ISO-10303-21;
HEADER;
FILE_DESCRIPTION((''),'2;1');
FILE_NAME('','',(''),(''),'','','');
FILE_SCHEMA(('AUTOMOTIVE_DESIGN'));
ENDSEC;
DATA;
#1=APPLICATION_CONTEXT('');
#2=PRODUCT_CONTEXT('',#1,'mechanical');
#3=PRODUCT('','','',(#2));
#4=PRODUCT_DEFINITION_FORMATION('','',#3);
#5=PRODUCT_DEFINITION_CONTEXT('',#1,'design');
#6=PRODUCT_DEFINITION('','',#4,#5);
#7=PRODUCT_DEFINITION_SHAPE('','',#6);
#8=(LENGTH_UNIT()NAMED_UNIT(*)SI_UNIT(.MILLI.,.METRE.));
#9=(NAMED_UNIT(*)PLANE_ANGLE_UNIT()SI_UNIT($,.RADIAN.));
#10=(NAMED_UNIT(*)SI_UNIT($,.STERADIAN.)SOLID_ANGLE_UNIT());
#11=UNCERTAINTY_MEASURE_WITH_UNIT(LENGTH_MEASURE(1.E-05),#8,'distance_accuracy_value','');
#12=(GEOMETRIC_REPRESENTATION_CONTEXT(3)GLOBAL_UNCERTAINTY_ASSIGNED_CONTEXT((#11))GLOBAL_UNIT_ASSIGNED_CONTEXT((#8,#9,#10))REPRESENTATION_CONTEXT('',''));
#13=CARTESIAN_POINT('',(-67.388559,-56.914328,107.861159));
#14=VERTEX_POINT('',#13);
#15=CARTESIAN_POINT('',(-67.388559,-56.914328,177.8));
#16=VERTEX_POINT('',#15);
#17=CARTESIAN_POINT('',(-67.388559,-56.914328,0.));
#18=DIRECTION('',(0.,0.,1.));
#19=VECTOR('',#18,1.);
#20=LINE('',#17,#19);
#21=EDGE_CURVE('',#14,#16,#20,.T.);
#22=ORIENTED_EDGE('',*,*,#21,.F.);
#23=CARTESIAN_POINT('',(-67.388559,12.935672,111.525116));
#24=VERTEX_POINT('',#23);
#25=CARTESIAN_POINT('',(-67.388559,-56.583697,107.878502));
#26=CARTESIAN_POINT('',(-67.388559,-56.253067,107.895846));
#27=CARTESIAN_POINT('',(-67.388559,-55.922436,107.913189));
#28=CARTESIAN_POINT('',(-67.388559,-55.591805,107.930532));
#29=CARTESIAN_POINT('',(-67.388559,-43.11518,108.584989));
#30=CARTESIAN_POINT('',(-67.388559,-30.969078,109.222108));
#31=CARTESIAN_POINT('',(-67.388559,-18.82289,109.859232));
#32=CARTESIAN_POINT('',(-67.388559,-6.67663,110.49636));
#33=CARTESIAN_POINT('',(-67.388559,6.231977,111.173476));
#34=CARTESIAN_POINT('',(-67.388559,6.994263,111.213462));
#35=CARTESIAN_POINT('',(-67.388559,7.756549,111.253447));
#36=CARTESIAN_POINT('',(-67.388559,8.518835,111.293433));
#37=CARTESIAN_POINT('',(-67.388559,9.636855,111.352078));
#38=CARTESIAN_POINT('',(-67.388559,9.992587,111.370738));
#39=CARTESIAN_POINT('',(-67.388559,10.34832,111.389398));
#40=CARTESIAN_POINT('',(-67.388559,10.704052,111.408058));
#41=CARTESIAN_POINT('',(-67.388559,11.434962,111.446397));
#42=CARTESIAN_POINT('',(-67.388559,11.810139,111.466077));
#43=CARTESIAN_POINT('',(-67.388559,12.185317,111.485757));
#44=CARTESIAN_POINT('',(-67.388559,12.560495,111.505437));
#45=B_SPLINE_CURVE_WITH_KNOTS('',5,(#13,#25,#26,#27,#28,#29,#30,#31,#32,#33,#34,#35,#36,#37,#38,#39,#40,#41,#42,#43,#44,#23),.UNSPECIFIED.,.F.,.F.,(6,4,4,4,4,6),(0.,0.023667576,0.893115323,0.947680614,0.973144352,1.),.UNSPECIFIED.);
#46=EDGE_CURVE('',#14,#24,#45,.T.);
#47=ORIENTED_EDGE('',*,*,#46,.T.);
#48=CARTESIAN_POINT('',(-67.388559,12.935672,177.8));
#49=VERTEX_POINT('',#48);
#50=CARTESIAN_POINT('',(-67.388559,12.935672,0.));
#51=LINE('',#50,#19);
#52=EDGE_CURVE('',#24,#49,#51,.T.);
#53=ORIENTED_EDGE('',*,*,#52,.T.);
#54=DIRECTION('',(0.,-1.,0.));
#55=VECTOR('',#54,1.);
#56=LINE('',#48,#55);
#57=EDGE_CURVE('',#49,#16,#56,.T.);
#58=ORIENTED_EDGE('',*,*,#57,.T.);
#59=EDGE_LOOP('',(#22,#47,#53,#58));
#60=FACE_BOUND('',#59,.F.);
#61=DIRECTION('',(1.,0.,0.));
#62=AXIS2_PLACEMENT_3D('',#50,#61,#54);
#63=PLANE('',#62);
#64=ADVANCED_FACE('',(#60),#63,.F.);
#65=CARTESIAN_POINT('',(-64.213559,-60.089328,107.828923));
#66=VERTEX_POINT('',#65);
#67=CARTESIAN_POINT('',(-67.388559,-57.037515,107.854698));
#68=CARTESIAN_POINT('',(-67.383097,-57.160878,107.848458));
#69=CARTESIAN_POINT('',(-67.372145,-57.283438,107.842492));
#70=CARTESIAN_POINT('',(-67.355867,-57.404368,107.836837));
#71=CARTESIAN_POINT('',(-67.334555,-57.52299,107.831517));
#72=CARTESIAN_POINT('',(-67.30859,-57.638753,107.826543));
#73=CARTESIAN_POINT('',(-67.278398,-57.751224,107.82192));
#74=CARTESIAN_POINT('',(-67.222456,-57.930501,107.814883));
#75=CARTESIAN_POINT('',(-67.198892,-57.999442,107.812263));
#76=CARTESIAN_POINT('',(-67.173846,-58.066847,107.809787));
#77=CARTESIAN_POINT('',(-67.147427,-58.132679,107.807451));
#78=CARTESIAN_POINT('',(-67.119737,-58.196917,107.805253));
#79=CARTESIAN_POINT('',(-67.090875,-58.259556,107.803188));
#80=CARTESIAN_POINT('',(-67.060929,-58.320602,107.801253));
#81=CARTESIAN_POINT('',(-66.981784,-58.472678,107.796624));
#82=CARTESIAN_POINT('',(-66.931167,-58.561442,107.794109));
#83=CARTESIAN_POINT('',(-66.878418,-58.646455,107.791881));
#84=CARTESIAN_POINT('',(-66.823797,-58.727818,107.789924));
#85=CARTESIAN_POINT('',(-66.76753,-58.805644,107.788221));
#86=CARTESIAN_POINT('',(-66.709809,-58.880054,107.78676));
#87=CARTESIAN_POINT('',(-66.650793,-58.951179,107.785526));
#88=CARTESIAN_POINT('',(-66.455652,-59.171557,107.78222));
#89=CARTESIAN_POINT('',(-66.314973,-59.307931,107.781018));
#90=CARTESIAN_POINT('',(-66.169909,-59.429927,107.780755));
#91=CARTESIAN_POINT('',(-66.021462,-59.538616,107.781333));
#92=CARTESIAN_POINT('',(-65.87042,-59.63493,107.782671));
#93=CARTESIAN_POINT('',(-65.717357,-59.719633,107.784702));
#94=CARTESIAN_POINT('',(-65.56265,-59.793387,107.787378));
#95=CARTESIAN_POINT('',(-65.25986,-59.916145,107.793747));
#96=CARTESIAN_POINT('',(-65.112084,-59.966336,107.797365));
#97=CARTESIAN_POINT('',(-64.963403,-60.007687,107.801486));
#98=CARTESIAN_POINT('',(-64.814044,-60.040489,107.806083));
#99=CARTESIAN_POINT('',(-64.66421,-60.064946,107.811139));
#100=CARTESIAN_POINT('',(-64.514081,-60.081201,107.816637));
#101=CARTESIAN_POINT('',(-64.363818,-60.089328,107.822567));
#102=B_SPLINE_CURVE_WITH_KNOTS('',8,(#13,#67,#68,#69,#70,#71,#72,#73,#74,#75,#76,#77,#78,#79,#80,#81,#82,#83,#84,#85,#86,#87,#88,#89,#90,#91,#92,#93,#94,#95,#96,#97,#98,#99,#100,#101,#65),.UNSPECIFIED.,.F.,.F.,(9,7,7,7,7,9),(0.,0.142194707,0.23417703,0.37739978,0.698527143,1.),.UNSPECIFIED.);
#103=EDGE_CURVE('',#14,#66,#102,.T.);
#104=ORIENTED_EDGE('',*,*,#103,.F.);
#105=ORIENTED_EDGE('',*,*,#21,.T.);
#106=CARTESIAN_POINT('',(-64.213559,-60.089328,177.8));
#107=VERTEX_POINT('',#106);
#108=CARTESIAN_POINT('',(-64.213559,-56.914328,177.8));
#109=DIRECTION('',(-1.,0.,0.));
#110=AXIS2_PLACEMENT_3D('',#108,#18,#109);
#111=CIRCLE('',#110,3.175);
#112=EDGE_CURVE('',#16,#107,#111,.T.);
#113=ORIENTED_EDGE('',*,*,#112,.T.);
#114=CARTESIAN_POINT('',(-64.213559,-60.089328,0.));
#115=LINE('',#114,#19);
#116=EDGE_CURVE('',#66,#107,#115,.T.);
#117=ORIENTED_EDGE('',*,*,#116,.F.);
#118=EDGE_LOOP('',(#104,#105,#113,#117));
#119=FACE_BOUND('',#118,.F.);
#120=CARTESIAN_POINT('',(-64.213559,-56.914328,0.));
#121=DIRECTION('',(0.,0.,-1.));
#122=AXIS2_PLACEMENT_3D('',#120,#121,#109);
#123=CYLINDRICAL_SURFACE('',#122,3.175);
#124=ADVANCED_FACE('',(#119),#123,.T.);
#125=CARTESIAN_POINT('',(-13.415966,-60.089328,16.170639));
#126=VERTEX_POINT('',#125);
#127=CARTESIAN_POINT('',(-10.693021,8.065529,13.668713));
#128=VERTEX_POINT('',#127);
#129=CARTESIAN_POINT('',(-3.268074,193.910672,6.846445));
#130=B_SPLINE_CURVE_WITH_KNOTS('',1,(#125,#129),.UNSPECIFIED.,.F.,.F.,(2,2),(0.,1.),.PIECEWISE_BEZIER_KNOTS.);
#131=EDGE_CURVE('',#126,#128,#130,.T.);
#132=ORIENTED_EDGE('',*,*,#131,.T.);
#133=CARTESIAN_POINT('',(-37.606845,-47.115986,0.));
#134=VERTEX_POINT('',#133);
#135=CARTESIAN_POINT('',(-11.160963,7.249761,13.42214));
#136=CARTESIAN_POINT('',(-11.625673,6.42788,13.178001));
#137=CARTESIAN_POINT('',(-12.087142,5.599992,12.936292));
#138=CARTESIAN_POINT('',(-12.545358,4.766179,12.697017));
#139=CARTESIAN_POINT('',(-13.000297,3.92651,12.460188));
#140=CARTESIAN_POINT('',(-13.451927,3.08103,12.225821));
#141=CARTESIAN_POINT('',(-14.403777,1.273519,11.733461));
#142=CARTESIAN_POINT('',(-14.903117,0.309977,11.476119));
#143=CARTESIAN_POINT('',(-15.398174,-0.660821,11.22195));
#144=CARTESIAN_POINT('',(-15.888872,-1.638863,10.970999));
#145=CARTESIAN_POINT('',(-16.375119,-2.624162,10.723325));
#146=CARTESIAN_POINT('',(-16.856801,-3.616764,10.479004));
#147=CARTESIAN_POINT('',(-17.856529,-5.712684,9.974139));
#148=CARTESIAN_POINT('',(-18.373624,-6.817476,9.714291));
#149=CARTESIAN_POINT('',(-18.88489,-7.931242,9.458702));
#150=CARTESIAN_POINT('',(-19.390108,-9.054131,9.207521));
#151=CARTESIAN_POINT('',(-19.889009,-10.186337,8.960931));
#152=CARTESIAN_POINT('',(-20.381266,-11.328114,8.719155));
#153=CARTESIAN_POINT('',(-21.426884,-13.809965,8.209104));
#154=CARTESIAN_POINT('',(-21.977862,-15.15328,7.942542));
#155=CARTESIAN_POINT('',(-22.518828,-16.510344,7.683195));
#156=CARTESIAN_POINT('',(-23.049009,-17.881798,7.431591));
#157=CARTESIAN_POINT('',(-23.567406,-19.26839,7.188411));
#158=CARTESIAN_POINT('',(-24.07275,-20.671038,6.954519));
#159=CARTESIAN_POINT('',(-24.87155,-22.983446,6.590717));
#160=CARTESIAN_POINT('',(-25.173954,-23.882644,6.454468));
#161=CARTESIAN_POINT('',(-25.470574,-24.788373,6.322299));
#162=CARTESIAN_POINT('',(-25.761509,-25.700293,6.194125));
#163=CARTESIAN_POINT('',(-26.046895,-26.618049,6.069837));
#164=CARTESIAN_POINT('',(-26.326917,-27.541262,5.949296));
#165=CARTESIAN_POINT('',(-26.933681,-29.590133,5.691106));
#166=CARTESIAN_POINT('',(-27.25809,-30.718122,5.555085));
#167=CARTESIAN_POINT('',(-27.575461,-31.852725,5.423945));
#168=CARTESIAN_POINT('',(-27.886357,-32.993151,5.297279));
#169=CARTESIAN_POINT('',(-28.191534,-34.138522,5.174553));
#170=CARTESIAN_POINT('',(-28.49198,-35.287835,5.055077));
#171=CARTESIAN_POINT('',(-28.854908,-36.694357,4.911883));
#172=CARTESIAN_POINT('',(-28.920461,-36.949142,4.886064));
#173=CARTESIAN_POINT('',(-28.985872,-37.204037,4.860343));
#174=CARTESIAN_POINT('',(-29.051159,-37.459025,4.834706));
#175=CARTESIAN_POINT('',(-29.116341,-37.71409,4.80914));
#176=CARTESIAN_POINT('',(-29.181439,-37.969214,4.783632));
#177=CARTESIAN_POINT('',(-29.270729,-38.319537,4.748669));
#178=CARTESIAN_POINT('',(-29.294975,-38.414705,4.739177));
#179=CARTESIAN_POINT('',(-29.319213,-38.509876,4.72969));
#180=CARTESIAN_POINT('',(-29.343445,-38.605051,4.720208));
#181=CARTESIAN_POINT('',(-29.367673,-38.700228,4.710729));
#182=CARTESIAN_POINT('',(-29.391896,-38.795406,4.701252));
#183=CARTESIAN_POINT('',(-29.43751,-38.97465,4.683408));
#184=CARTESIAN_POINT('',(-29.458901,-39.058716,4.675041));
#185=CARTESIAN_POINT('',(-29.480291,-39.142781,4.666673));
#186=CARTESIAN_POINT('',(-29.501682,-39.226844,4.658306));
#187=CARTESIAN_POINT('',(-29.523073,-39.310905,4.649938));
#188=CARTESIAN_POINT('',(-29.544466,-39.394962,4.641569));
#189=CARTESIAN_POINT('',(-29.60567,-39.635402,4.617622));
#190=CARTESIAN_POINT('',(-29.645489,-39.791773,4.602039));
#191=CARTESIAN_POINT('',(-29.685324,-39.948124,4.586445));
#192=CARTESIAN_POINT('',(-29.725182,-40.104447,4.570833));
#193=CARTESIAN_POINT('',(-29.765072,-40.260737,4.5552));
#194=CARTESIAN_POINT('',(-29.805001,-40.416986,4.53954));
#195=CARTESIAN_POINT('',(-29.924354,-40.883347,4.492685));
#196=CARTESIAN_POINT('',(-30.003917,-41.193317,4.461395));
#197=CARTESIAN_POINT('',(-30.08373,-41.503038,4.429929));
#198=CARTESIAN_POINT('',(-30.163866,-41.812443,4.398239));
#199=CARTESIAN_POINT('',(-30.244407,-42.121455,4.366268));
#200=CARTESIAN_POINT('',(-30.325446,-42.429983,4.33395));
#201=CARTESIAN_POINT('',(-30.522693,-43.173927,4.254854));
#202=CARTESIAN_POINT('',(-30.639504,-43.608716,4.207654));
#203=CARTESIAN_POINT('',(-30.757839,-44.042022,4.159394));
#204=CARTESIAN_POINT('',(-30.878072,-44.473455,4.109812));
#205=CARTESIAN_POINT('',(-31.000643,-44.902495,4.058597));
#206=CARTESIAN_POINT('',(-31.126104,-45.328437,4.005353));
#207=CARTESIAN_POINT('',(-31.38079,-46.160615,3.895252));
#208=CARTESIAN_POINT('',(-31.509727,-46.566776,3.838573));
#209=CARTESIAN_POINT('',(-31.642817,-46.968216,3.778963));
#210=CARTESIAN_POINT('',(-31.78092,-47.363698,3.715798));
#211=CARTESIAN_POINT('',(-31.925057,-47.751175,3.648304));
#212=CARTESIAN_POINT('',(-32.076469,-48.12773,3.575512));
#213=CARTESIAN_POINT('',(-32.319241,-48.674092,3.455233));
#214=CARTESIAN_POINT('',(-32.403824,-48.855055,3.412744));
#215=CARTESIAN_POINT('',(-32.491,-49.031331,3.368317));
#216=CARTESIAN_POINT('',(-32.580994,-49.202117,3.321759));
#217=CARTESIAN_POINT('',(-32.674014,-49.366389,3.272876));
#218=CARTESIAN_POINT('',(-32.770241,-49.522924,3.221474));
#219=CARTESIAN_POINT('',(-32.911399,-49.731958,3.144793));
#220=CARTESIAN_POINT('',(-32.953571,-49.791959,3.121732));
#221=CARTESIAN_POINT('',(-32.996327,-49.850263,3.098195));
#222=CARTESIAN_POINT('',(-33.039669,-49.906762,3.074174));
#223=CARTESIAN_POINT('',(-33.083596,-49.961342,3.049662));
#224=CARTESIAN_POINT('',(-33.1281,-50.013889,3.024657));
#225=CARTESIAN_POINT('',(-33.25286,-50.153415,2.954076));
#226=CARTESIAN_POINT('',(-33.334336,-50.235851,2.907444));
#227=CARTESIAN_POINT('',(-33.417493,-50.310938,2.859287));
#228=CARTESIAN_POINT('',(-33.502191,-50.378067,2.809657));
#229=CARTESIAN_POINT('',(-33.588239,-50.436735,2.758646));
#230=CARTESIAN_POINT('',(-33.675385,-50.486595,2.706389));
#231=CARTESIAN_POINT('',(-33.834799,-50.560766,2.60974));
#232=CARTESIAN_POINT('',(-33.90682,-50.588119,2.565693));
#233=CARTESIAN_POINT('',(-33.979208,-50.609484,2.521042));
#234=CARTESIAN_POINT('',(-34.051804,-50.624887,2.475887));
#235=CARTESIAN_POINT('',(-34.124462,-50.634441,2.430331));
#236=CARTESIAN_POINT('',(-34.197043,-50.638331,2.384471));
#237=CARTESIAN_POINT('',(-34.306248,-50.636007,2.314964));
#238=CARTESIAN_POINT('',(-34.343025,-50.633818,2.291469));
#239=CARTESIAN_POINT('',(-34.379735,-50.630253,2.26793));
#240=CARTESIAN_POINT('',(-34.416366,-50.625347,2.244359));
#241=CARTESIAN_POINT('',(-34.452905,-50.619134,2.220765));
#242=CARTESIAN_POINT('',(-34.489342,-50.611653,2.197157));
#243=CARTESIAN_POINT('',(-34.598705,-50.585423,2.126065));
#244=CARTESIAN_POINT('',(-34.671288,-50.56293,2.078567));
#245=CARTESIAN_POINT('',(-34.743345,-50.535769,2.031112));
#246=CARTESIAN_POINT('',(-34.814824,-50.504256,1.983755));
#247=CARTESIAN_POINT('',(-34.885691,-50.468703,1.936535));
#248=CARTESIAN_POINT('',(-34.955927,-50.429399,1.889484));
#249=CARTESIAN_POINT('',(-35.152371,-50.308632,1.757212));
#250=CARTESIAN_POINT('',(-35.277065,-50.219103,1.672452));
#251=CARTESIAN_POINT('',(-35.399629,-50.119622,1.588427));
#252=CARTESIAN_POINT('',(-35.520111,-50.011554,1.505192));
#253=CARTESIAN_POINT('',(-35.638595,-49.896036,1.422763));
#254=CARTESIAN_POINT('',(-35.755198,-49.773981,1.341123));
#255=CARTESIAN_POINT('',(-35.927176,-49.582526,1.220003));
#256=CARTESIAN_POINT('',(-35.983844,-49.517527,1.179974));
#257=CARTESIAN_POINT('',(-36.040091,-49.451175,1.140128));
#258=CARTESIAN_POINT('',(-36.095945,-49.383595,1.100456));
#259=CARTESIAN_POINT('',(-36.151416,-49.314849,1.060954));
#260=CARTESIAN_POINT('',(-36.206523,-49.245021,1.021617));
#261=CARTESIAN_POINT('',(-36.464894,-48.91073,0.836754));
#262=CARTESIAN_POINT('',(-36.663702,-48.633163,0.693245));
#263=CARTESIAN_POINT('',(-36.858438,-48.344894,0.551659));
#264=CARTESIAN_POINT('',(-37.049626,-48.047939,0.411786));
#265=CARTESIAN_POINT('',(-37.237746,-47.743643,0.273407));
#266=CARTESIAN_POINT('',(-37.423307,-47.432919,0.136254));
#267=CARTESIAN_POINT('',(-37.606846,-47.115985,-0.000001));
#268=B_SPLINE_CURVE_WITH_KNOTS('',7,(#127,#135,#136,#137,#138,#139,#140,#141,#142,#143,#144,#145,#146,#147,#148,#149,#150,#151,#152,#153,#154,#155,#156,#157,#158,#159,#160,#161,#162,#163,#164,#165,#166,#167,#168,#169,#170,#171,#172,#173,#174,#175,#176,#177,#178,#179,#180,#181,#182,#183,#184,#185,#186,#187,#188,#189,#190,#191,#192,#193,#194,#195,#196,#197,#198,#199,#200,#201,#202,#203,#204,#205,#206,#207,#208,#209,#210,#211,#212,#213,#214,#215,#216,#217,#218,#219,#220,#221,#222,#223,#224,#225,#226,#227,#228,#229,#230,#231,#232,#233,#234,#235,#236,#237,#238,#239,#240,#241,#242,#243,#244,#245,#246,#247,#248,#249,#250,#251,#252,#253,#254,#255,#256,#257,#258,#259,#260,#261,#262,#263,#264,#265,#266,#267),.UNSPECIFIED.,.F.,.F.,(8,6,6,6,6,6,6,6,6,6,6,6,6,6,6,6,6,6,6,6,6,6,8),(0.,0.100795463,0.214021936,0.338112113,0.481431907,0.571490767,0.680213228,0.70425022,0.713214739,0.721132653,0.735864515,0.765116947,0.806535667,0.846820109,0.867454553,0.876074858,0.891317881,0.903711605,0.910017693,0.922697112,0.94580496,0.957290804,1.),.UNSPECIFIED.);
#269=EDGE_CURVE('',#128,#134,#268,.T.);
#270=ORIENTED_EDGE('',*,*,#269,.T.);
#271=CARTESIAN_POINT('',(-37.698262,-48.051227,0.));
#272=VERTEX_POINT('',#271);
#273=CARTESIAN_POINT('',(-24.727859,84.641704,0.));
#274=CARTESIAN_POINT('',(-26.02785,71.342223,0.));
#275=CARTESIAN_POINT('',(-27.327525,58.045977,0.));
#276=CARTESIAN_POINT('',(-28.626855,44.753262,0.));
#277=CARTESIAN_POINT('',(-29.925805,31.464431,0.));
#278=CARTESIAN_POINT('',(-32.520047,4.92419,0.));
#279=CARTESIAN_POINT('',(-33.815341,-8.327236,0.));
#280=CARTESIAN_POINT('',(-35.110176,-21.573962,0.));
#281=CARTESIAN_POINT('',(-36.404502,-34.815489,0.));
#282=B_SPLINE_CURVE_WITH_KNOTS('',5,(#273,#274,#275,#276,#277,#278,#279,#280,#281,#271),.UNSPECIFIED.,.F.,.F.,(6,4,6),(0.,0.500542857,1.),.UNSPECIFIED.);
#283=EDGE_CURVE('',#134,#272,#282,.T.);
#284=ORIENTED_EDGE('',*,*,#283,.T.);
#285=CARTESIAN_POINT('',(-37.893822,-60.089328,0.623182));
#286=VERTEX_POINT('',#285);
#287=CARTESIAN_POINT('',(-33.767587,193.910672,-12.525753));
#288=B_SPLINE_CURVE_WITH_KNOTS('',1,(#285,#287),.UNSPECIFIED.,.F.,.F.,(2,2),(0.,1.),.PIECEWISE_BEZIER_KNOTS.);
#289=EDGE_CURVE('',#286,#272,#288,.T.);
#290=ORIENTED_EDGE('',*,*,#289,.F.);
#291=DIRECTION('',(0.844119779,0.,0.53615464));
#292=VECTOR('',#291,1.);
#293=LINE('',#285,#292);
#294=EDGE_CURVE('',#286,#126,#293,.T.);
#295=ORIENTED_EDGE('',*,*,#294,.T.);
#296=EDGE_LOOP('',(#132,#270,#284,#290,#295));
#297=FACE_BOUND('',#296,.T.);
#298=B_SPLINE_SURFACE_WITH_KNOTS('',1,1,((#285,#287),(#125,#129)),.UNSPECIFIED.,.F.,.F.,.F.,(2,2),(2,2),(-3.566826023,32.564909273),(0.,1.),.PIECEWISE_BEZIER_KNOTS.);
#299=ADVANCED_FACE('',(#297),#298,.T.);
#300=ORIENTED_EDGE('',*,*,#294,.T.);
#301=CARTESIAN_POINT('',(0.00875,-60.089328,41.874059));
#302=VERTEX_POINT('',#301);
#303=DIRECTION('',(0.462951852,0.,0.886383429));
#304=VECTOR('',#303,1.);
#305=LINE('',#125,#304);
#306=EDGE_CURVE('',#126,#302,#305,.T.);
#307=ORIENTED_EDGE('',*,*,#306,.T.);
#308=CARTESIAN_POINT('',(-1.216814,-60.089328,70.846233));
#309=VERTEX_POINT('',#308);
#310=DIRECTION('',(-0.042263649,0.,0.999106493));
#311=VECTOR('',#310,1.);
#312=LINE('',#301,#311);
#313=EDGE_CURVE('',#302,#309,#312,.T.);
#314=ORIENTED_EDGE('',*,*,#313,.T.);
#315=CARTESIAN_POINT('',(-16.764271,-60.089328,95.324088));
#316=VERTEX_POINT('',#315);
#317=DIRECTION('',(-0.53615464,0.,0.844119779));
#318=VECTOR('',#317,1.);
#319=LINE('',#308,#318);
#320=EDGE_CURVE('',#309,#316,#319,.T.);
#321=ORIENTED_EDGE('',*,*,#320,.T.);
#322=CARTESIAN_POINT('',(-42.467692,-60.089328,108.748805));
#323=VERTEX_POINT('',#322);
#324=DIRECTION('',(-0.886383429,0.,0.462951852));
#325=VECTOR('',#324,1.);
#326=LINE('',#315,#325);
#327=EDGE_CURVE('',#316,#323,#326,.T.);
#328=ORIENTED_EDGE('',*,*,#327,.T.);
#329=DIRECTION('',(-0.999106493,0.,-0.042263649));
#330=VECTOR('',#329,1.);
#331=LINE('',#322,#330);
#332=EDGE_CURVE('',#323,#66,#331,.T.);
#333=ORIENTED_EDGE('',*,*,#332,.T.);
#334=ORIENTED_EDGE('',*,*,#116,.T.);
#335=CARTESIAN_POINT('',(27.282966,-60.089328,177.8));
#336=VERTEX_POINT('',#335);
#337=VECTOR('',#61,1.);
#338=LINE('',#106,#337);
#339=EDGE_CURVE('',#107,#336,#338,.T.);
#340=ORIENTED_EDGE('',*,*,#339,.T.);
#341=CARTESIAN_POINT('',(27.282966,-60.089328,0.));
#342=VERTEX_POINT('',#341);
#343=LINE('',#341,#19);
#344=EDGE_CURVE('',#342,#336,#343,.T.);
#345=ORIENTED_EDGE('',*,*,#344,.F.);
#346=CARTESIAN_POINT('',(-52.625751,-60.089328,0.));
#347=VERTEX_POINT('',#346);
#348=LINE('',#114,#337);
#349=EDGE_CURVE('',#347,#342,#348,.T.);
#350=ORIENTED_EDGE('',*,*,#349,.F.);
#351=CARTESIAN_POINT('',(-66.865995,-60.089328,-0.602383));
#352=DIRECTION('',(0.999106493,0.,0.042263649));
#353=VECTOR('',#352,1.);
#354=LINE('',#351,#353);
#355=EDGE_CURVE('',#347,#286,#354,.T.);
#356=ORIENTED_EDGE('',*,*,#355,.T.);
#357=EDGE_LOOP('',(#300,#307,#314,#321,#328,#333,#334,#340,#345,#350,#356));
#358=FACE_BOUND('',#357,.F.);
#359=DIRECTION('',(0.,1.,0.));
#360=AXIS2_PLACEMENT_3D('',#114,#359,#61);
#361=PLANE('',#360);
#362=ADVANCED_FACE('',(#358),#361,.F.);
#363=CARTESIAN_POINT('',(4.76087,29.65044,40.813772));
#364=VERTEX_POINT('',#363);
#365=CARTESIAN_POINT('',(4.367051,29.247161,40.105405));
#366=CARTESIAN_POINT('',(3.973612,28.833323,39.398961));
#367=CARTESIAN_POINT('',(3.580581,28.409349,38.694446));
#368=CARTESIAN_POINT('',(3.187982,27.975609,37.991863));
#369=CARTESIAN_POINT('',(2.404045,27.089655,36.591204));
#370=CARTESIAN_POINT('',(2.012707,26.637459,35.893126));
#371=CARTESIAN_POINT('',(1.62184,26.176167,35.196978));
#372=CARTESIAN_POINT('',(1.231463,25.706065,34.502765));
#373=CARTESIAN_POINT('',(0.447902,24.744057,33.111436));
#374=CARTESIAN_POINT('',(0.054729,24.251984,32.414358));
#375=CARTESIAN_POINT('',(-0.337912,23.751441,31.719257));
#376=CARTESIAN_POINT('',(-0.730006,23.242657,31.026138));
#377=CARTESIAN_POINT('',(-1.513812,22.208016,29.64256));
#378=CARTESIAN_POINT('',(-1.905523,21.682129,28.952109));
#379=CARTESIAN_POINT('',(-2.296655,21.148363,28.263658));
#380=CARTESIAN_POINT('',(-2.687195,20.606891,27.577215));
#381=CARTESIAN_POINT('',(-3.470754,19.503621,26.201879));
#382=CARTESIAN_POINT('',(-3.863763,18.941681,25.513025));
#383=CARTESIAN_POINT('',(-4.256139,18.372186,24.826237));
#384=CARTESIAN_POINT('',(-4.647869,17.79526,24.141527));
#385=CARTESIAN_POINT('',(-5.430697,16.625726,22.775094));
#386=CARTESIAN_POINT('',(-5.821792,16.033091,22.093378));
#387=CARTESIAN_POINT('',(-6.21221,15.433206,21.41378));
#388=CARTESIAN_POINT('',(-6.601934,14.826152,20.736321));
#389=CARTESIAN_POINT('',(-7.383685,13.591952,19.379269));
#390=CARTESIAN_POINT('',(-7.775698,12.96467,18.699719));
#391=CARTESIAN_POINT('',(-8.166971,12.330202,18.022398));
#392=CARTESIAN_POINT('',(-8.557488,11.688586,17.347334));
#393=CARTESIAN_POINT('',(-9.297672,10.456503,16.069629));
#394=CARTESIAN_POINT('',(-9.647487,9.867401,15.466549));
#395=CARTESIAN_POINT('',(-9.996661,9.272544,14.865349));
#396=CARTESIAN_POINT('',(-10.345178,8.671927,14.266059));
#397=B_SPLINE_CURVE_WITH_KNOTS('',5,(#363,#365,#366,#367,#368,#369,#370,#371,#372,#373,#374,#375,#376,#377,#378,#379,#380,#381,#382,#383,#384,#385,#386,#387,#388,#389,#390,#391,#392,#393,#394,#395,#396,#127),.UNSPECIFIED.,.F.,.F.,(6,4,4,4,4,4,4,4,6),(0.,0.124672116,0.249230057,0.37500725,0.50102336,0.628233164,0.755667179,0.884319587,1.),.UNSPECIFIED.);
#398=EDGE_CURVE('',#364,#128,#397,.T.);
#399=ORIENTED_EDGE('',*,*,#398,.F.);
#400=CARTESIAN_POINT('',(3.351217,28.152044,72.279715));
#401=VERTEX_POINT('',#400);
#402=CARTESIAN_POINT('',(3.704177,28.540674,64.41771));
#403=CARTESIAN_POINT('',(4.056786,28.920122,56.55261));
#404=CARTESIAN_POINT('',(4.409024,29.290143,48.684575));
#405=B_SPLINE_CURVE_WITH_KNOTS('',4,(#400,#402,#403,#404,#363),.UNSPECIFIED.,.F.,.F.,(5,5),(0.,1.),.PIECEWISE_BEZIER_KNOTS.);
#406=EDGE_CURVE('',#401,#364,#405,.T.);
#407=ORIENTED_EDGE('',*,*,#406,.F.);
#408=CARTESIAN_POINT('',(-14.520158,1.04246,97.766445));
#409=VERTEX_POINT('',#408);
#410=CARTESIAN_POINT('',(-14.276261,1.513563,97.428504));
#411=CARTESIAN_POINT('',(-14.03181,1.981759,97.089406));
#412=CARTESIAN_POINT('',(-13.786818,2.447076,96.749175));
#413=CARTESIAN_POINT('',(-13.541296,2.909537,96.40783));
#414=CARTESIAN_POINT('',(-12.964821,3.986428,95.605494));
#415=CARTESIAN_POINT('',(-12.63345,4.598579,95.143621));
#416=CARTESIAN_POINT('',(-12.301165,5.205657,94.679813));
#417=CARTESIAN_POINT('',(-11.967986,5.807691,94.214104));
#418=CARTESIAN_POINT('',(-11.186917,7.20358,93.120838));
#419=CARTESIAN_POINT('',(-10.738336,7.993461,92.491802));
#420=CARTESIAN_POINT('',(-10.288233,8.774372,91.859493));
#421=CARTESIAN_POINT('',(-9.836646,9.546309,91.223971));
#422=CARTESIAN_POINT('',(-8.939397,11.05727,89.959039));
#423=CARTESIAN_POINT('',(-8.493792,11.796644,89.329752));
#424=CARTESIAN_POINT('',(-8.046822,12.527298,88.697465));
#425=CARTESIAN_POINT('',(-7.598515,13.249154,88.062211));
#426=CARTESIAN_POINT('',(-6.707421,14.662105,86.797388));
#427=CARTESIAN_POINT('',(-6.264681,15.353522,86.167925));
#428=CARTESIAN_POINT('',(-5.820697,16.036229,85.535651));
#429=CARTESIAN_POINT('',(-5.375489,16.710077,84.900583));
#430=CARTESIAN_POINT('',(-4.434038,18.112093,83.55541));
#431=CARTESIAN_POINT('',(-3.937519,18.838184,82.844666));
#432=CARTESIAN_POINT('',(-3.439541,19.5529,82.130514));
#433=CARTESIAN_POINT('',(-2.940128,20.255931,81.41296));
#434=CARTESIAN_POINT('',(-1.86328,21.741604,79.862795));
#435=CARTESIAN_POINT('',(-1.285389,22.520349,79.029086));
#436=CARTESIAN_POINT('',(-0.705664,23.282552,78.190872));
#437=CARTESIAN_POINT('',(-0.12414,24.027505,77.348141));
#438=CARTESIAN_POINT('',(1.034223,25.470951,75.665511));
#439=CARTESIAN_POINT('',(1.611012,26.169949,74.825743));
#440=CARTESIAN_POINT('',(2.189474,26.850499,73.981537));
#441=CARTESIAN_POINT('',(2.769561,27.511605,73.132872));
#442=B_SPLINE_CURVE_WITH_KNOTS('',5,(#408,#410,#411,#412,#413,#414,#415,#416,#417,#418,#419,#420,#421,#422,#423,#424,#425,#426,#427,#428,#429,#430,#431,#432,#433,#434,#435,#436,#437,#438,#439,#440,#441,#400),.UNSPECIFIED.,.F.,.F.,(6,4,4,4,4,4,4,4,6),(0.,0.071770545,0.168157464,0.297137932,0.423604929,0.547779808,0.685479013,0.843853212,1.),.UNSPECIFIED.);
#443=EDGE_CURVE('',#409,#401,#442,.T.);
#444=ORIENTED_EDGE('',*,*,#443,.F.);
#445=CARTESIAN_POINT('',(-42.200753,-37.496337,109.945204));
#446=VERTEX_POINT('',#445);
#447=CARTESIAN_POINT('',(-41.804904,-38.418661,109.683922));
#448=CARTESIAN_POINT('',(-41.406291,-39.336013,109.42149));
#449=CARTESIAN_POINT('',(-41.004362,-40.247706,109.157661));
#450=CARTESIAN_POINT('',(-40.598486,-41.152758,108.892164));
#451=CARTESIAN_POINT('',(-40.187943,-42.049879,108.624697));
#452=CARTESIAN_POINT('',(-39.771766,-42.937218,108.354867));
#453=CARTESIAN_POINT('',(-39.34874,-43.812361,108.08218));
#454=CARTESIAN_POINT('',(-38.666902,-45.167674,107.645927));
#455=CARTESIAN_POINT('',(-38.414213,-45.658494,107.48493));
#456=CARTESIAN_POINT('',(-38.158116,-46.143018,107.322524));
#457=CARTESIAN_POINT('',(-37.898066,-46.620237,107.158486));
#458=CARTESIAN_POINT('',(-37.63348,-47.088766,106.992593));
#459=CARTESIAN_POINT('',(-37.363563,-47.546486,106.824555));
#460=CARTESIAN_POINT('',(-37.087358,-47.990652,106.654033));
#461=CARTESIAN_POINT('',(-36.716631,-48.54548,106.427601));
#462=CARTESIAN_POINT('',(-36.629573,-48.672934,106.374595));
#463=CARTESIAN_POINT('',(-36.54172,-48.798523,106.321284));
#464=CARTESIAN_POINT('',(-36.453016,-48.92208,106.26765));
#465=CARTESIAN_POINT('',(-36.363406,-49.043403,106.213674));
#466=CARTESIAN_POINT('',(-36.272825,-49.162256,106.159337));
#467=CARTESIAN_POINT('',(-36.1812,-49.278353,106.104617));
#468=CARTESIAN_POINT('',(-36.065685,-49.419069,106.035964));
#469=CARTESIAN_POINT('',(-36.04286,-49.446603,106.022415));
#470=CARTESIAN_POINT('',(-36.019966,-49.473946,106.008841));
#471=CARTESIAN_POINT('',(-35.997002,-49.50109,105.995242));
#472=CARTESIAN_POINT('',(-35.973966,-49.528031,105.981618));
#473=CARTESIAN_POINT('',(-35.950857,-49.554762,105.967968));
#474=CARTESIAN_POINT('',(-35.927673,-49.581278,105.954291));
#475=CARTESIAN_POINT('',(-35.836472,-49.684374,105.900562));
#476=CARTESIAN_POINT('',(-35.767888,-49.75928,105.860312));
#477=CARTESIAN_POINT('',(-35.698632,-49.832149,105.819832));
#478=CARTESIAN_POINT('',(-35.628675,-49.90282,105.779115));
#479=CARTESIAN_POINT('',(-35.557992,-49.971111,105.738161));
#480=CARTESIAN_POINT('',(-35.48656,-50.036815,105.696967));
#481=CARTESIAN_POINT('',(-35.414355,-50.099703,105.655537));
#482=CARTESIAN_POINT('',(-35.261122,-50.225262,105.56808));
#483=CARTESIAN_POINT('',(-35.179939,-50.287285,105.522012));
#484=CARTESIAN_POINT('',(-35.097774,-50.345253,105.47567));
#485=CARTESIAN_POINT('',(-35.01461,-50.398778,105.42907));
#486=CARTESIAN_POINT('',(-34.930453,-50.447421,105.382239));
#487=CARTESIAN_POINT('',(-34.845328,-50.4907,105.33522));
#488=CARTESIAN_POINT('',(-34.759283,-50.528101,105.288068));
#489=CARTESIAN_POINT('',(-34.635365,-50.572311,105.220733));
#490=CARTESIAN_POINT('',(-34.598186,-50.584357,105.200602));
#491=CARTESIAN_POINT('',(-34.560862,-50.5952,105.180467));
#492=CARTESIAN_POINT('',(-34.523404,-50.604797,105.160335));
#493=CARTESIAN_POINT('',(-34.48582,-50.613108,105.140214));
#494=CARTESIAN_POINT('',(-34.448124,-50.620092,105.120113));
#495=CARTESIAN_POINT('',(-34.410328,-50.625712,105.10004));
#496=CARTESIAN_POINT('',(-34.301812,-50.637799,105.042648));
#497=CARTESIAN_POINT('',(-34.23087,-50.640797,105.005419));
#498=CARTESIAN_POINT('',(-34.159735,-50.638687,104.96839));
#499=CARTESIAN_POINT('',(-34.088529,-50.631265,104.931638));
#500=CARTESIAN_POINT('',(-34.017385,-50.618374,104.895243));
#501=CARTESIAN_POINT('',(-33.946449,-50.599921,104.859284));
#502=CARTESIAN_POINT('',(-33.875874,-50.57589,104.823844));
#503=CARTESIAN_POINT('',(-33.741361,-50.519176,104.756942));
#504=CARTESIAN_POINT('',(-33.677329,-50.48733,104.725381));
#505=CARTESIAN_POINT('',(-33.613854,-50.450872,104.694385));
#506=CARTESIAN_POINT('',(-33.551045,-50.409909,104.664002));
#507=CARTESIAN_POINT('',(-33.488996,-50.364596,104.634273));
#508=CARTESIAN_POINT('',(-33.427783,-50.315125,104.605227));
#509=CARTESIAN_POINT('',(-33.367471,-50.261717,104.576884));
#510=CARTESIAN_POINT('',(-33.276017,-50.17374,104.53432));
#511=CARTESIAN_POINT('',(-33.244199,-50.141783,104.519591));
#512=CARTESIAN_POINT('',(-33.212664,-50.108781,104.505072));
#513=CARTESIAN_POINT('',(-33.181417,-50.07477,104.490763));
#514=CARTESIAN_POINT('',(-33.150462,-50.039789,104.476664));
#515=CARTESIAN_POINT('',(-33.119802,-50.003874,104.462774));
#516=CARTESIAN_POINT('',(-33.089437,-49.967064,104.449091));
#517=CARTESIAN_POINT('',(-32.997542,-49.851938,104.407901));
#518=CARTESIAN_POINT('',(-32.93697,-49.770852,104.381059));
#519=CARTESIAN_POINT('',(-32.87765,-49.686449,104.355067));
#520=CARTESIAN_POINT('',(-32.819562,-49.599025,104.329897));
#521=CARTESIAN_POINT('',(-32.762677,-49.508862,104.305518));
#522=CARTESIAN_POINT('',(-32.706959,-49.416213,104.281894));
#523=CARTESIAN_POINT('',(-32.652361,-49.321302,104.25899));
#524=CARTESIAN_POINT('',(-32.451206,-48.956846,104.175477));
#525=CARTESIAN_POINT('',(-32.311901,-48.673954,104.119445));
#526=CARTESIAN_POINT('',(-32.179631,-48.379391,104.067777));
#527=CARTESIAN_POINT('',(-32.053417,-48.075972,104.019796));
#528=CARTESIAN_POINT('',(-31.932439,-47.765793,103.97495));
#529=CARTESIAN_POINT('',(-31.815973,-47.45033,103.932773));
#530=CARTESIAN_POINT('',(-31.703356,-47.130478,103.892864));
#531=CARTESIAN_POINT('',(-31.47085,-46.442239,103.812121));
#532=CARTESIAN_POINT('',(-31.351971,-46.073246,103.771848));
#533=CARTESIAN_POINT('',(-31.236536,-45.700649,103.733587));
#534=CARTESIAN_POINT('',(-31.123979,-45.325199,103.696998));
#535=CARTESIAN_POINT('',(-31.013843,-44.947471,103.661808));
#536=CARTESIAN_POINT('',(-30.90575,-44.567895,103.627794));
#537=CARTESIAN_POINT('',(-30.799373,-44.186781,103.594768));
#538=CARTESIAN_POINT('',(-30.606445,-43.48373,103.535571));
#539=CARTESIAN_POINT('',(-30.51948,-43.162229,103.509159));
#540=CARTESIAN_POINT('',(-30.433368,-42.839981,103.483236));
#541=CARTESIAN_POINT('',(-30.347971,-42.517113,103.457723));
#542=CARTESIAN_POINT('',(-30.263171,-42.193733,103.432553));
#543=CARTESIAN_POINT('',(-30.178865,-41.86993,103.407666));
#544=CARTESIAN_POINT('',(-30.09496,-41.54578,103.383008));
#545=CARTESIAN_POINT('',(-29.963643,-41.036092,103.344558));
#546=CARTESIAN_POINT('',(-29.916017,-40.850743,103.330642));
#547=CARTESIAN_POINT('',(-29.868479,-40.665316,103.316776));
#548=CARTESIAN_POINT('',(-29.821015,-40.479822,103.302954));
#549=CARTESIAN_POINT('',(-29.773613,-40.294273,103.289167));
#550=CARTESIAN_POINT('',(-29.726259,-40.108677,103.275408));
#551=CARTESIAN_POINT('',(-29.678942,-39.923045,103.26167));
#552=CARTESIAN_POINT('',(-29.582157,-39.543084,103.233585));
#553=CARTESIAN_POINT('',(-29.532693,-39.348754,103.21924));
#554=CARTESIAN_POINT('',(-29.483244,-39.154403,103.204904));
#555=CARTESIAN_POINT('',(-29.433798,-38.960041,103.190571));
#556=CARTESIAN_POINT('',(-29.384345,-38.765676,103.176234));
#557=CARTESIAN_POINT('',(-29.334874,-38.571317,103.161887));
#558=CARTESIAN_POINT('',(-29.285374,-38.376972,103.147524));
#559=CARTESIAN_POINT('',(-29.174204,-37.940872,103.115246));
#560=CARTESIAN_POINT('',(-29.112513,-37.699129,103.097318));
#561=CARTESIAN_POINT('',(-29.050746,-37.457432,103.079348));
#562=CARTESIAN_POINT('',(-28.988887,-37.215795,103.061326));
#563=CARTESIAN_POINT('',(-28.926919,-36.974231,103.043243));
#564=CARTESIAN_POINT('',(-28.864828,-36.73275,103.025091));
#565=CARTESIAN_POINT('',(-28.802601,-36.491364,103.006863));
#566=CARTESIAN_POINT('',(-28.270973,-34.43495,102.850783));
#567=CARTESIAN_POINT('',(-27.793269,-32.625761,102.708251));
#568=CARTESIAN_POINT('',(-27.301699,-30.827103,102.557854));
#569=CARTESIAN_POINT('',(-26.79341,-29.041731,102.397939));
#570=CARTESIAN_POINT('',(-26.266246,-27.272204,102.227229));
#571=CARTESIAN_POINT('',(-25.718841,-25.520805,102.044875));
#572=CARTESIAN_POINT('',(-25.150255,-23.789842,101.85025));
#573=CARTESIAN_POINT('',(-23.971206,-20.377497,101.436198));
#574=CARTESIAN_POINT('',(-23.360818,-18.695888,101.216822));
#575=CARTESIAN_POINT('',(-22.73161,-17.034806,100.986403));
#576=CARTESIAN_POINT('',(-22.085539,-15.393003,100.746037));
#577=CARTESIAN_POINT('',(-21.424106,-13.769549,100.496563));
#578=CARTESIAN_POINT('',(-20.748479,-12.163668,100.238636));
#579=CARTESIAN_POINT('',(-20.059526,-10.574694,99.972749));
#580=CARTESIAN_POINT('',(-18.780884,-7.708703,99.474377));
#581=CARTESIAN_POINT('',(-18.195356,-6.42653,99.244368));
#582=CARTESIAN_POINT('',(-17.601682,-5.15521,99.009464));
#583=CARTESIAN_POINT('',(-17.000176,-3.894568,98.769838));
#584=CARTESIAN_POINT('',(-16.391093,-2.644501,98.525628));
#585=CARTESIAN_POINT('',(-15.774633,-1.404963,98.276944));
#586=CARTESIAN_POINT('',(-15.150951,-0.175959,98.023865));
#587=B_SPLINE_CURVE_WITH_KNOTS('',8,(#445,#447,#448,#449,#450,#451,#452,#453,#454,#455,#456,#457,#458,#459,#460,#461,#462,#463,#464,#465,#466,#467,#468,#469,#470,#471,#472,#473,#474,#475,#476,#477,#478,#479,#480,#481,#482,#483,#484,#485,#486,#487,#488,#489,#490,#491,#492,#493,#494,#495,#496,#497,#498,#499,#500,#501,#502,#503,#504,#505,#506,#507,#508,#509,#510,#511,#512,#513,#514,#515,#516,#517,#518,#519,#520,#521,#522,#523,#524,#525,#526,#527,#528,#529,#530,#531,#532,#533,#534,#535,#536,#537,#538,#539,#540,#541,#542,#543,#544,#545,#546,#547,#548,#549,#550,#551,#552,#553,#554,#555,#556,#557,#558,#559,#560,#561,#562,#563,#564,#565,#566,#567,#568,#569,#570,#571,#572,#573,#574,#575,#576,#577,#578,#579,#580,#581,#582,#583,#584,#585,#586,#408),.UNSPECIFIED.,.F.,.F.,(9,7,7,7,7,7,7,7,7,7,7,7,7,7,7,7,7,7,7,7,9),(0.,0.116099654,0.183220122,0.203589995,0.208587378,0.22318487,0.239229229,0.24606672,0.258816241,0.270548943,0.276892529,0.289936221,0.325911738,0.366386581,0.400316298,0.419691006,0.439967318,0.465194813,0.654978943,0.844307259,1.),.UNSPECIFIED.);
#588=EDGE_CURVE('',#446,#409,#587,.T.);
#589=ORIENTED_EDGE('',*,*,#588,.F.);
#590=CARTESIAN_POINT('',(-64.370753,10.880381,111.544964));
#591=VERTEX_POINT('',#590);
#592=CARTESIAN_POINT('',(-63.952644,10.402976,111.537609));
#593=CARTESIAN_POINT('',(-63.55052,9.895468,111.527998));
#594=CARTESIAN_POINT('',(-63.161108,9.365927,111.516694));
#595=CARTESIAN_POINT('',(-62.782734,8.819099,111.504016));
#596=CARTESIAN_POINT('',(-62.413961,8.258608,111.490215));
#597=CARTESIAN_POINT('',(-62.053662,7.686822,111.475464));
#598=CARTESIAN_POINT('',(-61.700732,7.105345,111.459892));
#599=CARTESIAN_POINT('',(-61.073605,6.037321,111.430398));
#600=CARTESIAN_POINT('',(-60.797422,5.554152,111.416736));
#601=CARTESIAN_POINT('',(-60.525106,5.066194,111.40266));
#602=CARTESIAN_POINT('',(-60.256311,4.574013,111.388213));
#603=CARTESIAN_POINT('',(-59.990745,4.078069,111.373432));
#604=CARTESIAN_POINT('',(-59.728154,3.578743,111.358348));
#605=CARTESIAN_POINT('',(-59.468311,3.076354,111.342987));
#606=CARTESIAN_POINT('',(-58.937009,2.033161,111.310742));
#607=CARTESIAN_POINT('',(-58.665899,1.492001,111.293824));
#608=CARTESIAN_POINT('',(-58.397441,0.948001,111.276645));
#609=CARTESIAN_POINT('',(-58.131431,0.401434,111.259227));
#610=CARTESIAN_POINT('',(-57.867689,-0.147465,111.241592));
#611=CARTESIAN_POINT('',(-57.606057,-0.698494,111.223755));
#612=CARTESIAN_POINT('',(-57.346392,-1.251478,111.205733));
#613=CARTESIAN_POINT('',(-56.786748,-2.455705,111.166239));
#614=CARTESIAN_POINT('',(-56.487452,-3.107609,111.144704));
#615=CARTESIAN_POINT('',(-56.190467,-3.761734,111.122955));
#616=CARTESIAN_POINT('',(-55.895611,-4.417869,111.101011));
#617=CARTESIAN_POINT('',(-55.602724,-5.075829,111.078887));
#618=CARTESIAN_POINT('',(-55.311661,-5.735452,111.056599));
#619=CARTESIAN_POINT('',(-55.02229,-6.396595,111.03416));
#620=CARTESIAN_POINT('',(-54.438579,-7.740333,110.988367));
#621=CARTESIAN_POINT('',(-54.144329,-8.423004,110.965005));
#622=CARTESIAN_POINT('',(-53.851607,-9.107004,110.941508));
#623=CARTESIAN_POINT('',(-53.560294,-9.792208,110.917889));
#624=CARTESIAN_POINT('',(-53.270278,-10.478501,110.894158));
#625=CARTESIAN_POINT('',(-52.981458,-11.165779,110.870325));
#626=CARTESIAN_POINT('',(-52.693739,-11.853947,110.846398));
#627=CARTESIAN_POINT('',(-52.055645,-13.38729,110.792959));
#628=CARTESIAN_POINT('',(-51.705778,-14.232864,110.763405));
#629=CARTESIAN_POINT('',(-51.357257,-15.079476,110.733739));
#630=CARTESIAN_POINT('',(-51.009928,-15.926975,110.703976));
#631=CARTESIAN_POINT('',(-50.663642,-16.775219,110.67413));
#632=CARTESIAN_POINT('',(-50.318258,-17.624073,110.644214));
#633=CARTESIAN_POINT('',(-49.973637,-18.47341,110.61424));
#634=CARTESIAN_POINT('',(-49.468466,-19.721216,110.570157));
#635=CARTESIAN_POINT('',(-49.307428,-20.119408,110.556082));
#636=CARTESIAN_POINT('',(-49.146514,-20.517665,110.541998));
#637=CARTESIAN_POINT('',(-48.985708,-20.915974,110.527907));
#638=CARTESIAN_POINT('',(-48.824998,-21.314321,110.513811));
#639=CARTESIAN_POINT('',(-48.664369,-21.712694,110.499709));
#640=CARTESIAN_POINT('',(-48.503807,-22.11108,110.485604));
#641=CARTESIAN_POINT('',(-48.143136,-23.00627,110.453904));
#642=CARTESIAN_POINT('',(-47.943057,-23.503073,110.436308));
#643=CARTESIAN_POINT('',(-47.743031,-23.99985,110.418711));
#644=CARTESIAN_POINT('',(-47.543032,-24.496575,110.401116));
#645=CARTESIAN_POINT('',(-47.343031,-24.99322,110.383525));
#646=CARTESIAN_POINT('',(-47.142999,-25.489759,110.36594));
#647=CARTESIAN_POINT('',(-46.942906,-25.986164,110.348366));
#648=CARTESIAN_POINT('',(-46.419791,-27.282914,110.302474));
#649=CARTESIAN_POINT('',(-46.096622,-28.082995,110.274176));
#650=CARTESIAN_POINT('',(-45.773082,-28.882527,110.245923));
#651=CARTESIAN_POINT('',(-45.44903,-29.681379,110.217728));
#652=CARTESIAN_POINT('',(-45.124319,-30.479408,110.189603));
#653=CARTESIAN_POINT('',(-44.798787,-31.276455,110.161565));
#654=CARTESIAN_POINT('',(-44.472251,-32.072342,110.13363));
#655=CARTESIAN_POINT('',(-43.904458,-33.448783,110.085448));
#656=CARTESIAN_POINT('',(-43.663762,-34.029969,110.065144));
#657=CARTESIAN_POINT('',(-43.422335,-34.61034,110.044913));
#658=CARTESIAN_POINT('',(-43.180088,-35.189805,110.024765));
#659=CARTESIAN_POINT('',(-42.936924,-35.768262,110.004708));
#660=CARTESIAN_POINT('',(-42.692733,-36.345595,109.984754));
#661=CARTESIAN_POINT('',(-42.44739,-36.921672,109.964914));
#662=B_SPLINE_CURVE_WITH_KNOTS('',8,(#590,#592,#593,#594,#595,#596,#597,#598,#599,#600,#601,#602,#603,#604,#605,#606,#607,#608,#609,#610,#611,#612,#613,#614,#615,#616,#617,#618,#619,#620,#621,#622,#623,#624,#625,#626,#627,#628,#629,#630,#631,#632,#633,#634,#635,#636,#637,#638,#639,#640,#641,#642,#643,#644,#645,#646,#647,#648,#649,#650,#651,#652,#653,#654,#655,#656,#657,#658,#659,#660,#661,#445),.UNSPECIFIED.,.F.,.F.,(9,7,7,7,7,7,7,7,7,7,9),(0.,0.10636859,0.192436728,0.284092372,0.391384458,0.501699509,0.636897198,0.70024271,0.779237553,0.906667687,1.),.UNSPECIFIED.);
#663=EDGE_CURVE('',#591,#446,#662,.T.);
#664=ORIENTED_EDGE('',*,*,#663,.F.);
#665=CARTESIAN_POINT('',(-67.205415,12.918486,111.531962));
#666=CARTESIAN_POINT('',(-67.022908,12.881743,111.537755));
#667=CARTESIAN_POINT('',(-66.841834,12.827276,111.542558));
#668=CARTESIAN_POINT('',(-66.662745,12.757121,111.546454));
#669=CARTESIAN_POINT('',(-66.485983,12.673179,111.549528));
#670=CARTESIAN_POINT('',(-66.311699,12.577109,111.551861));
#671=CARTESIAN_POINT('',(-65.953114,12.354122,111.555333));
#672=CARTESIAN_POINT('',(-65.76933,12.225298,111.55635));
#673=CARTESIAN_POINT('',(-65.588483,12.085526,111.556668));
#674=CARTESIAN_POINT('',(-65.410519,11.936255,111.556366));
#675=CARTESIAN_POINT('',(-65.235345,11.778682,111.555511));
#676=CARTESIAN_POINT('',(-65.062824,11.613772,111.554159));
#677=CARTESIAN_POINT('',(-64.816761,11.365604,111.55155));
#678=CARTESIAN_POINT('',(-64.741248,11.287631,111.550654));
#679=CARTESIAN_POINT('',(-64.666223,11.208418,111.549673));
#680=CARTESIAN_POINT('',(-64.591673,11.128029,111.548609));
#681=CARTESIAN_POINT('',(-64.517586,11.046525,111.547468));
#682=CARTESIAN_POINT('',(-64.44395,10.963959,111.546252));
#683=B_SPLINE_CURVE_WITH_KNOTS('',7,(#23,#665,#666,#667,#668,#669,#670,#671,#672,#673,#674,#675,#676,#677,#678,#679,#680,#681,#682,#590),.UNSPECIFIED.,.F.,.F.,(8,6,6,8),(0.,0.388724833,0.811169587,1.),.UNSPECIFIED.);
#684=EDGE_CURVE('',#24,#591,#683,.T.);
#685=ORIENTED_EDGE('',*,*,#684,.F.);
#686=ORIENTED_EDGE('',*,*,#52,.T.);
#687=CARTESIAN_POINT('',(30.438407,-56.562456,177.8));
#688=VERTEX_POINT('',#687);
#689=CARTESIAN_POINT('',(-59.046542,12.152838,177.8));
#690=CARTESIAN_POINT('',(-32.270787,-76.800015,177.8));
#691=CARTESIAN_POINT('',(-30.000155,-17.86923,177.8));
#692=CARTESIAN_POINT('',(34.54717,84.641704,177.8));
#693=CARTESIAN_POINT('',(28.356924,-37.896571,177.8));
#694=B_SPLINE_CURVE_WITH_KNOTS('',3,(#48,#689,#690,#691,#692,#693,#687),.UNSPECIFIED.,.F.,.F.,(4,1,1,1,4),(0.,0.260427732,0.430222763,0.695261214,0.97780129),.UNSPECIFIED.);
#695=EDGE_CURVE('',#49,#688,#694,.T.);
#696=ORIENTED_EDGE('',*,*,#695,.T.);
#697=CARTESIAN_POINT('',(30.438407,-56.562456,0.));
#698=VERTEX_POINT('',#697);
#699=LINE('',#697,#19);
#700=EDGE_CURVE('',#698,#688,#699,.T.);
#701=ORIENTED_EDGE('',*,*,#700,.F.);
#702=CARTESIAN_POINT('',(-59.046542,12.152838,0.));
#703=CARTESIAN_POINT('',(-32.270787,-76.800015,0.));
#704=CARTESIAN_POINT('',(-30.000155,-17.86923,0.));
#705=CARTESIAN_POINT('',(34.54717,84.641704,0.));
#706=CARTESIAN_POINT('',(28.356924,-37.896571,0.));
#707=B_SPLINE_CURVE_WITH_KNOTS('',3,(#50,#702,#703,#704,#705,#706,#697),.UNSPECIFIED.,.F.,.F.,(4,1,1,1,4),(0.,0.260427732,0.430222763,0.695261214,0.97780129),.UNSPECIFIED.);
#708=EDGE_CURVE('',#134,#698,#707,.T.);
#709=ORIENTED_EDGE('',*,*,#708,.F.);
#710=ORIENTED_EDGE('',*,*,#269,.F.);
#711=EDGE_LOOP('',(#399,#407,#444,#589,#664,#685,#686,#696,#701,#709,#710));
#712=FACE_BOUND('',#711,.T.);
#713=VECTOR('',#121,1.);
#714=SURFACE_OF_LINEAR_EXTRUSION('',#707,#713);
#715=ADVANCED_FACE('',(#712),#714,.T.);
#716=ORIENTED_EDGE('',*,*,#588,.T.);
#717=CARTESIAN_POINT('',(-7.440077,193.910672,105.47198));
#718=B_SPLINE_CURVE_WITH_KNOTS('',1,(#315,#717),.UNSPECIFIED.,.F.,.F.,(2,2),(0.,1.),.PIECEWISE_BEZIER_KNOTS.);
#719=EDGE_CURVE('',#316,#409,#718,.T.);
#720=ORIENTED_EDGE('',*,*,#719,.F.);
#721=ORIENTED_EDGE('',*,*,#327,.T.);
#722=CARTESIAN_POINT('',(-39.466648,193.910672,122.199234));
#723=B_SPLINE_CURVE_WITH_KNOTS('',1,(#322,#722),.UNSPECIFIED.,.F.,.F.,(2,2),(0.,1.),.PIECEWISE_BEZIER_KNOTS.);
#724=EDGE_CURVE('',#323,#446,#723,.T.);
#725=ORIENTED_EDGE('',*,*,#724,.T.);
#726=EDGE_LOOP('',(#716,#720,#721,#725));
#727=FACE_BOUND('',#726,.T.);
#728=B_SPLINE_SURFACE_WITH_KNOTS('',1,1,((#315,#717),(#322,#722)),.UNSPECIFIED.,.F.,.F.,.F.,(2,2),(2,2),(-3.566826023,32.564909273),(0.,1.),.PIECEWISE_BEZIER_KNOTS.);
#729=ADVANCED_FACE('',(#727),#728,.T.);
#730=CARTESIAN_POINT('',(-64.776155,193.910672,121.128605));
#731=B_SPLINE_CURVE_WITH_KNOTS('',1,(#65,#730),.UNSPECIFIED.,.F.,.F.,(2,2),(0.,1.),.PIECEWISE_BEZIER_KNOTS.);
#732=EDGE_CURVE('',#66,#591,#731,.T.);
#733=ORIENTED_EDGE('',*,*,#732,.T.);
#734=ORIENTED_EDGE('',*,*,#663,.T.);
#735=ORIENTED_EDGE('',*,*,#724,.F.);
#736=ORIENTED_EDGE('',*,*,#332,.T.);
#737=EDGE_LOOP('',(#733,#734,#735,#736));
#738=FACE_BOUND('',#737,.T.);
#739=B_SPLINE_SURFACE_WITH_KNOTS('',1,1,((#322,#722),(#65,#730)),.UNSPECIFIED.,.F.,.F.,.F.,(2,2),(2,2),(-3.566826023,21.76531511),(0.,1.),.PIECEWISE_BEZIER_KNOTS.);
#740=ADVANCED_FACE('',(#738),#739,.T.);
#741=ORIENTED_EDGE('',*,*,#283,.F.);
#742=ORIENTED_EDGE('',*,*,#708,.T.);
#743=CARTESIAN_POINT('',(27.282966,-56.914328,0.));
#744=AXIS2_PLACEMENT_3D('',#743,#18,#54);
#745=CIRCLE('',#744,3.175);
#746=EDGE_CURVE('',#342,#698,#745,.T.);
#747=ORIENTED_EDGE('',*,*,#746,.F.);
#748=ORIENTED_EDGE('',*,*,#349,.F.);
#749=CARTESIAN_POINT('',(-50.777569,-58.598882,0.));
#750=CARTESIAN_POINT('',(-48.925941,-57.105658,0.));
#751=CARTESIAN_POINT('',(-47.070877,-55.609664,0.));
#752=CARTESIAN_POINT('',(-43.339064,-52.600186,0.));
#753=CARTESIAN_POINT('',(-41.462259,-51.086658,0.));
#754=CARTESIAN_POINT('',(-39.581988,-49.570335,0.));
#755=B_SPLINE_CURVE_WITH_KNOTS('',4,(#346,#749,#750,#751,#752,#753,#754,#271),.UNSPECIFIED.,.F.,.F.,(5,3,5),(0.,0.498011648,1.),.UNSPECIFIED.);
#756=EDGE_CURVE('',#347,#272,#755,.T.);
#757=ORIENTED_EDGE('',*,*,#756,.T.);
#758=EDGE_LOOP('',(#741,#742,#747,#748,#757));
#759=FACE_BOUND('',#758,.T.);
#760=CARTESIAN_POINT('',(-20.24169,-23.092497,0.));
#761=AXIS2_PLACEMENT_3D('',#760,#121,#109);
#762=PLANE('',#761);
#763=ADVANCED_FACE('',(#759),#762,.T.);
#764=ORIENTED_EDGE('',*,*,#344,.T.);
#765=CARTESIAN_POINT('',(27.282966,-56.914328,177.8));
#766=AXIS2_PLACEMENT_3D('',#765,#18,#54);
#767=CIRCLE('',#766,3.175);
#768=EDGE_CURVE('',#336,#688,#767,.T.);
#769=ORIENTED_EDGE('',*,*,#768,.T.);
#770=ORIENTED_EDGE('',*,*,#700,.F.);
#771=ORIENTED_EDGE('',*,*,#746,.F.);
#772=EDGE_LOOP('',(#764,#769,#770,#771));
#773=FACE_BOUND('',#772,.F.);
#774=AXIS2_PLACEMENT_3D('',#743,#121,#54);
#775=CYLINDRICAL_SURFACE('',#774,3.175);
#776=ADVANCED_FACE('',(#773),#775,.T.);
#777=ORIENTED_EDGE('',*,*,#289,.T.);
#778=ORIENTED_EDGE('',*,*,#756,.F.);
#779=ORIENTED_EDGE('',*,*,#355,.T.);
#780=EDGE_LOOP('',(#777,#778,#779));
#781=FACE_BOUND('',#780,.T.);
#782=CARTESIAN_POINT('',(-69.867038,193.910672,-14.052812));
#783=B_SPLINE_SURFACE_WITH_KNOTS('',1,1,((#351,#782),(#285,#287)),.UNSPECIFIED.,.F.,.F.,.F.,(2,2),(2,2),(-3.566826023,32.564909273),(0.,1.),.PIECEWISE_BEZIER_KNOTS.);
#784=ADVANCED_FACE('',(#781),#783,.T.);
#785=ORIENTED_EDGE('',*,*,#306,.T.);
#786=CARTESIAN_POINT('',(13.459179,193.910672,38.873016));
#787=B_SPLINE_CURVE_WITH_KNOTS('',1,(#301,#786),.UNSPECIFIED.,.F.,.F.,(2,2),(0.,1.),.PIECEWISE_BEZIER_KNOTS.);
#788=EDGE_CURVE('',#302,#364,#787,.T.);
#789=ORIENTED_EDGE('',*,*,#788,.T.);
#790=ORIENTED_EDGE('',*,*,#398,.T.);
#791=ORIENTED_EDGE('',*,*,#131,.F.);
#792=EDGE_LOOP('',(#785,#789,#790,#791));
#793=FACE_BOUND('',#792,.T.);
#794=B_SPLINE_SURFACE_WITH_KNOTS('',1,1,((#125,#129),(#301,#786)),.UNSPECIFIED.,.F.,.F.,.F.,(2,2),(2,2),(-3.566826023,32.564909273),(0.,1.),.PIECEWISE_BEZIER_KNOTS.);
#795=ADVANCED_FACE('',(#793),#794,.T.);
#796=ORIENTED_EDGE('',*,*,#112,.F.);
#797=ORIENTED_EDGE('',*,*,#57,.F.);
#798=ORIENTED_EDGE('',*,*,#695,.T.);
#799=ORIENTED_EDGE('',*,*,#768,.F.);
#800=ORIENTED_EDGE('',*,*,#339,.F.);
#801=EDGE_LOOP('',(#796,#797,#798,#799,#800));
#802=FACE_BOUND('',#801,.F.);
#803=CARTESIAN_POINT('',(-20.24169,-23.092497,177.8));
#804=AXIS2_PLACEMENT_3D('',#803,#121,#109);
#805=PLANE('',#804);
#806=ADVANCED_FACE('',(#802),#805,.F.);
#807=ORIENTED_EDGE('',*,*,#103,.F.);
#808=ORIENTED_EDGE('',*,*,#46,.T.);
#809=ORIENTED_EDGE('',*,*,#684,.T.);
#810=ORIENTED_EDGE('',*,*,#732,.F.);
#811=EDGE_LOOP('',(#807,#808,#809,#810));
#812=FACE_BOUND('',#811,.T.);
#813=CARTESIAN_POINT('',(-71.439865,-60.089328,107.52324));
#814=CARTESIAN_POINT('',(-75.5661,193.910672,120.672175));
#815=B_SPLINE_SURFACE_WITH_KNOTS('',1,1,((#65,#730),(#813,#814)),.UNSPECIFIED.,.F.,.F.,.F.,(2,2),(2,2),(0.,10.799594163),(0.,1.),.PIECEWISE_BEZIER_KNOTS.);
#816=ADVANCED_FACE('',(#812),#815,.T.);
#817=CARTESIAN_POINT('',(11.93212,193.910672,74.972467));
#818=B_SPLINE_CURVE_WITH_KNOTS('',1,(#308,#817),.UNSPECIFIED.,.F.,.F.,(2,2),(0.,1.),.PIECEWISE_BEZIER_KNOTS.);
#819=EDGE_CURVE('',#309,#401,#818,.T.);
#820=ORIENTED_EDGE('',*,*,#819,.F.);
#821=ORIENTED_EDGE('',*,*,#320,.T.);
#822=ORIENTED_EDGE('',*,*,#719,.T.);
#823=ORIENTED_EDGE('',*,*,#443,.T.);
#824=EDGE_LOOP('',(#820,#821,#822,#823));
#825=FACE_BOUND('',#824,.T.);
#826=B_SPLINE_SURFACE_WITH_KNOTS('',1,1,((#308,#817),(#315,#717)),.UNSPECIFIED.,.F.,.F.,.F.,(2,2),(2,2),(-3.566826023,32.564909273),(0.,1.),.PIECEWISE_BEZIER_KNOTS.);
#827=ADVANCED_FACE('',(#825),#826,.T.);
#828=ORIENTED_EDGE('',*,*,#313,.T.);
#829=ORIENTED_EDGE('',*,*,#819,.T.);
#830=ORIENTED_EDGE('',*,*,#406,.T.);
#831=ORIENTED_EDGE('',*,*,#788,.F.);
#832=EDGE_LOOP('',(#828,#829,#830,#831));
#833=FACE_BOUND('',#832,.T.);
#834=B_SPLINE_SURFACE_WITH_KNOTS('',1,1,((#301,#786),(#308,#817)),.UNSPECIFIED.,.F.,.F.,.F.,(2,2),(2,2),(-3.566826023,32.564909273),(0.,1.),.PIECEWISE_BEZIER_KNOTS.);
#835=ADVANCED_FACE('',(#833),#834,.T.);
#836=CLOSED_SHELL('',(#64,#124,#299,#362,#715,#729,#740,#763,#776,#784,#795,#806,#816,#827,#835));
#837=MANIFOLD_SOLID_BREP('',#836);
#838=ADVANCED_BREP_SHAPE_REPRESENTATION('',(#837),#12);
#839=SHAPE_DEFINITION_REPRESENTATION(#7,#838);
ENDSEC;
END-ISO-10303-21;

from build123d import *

# Parameters (mm, degrees)
F1_DEPTH = 177.8
F3_DEPTH = 254
F3_TAPER = -3


with BuildPart() as f1:
    # F0 (on Top) → F1 (new body)
    with BuildSketch(Plane.XY):
        with BuildLine():
            add(Edge.make_bspline(
                [(-67.3885593742, 12.9356722599), (-59.0465416425, 12.1528384674), (-32.2707868024, -76.8000150755), (-30.0001551072, -17.8692297072), (34.5471698729, 84.6417041824), (28.3569236155, -37.8965707865), (30.4384071088, -56.5624558944)],
                knots=[0, 0, 0, 0, 0.2604277323, 0.4302227628, 0.6952612142, 0.9778012896, 0.9778012896, 0.9778012896, 0.9778012896], degree=3))
            Line((-67.3885593742, 12.9356722599), (-67.3885593742, -56.9143277401))
            ThreePointArc((-67.3885593742, -56.9143277401), (-66.4586234045, -59.1593917704), (-64.2135593742, -60.0893277401))
            Line((-64.2135593742, -60.0893277401), (27.282965586, -60.0893277401))
            ThreePointArc((27.282965586, -60.0893277401), (29.6491669838, -59.031334104), (30.4384071088, -56.5624558944))
        make_face()
    extrude(amount=F1_DEPTH)

    # F2 (on face) → F3 (cut)
    with BuildSketch(Plane.XZ.offset(60.0893277401)):
        Polygon((-64.2135593742, 0), (-64.2135593742, 107.8289228659), (-71.4398649842, 107.5232396894), (-95.917720614, 91.9757827925), (-109.3424369711, 66.2723623407), (-108.1168721491, 37.3001890867), (-92.5694152522, 12.8223334569), (-66.8659948004, -0.6023829002), (-52.6257510897, 0), align=None)
        Polygon((-16.7642712784, 95.3240881544), (-42.4676917302, 108.7488045115), (-64.2135593742, 107.8289228659), (-64.2135593742, 0), (-52.6257510897, 0), (-37.8938215464, 0.6231819219), (-13.4159659166, 16.1706388188), (0.0087504405, 41.8740592706), (-1.2168143815, 70.8462325246), align=None)
    extrude(amount=-F3_DEPTH, taper=F3_TAPER, mode=Mode.SUBTRACT)


solid = f1.part
